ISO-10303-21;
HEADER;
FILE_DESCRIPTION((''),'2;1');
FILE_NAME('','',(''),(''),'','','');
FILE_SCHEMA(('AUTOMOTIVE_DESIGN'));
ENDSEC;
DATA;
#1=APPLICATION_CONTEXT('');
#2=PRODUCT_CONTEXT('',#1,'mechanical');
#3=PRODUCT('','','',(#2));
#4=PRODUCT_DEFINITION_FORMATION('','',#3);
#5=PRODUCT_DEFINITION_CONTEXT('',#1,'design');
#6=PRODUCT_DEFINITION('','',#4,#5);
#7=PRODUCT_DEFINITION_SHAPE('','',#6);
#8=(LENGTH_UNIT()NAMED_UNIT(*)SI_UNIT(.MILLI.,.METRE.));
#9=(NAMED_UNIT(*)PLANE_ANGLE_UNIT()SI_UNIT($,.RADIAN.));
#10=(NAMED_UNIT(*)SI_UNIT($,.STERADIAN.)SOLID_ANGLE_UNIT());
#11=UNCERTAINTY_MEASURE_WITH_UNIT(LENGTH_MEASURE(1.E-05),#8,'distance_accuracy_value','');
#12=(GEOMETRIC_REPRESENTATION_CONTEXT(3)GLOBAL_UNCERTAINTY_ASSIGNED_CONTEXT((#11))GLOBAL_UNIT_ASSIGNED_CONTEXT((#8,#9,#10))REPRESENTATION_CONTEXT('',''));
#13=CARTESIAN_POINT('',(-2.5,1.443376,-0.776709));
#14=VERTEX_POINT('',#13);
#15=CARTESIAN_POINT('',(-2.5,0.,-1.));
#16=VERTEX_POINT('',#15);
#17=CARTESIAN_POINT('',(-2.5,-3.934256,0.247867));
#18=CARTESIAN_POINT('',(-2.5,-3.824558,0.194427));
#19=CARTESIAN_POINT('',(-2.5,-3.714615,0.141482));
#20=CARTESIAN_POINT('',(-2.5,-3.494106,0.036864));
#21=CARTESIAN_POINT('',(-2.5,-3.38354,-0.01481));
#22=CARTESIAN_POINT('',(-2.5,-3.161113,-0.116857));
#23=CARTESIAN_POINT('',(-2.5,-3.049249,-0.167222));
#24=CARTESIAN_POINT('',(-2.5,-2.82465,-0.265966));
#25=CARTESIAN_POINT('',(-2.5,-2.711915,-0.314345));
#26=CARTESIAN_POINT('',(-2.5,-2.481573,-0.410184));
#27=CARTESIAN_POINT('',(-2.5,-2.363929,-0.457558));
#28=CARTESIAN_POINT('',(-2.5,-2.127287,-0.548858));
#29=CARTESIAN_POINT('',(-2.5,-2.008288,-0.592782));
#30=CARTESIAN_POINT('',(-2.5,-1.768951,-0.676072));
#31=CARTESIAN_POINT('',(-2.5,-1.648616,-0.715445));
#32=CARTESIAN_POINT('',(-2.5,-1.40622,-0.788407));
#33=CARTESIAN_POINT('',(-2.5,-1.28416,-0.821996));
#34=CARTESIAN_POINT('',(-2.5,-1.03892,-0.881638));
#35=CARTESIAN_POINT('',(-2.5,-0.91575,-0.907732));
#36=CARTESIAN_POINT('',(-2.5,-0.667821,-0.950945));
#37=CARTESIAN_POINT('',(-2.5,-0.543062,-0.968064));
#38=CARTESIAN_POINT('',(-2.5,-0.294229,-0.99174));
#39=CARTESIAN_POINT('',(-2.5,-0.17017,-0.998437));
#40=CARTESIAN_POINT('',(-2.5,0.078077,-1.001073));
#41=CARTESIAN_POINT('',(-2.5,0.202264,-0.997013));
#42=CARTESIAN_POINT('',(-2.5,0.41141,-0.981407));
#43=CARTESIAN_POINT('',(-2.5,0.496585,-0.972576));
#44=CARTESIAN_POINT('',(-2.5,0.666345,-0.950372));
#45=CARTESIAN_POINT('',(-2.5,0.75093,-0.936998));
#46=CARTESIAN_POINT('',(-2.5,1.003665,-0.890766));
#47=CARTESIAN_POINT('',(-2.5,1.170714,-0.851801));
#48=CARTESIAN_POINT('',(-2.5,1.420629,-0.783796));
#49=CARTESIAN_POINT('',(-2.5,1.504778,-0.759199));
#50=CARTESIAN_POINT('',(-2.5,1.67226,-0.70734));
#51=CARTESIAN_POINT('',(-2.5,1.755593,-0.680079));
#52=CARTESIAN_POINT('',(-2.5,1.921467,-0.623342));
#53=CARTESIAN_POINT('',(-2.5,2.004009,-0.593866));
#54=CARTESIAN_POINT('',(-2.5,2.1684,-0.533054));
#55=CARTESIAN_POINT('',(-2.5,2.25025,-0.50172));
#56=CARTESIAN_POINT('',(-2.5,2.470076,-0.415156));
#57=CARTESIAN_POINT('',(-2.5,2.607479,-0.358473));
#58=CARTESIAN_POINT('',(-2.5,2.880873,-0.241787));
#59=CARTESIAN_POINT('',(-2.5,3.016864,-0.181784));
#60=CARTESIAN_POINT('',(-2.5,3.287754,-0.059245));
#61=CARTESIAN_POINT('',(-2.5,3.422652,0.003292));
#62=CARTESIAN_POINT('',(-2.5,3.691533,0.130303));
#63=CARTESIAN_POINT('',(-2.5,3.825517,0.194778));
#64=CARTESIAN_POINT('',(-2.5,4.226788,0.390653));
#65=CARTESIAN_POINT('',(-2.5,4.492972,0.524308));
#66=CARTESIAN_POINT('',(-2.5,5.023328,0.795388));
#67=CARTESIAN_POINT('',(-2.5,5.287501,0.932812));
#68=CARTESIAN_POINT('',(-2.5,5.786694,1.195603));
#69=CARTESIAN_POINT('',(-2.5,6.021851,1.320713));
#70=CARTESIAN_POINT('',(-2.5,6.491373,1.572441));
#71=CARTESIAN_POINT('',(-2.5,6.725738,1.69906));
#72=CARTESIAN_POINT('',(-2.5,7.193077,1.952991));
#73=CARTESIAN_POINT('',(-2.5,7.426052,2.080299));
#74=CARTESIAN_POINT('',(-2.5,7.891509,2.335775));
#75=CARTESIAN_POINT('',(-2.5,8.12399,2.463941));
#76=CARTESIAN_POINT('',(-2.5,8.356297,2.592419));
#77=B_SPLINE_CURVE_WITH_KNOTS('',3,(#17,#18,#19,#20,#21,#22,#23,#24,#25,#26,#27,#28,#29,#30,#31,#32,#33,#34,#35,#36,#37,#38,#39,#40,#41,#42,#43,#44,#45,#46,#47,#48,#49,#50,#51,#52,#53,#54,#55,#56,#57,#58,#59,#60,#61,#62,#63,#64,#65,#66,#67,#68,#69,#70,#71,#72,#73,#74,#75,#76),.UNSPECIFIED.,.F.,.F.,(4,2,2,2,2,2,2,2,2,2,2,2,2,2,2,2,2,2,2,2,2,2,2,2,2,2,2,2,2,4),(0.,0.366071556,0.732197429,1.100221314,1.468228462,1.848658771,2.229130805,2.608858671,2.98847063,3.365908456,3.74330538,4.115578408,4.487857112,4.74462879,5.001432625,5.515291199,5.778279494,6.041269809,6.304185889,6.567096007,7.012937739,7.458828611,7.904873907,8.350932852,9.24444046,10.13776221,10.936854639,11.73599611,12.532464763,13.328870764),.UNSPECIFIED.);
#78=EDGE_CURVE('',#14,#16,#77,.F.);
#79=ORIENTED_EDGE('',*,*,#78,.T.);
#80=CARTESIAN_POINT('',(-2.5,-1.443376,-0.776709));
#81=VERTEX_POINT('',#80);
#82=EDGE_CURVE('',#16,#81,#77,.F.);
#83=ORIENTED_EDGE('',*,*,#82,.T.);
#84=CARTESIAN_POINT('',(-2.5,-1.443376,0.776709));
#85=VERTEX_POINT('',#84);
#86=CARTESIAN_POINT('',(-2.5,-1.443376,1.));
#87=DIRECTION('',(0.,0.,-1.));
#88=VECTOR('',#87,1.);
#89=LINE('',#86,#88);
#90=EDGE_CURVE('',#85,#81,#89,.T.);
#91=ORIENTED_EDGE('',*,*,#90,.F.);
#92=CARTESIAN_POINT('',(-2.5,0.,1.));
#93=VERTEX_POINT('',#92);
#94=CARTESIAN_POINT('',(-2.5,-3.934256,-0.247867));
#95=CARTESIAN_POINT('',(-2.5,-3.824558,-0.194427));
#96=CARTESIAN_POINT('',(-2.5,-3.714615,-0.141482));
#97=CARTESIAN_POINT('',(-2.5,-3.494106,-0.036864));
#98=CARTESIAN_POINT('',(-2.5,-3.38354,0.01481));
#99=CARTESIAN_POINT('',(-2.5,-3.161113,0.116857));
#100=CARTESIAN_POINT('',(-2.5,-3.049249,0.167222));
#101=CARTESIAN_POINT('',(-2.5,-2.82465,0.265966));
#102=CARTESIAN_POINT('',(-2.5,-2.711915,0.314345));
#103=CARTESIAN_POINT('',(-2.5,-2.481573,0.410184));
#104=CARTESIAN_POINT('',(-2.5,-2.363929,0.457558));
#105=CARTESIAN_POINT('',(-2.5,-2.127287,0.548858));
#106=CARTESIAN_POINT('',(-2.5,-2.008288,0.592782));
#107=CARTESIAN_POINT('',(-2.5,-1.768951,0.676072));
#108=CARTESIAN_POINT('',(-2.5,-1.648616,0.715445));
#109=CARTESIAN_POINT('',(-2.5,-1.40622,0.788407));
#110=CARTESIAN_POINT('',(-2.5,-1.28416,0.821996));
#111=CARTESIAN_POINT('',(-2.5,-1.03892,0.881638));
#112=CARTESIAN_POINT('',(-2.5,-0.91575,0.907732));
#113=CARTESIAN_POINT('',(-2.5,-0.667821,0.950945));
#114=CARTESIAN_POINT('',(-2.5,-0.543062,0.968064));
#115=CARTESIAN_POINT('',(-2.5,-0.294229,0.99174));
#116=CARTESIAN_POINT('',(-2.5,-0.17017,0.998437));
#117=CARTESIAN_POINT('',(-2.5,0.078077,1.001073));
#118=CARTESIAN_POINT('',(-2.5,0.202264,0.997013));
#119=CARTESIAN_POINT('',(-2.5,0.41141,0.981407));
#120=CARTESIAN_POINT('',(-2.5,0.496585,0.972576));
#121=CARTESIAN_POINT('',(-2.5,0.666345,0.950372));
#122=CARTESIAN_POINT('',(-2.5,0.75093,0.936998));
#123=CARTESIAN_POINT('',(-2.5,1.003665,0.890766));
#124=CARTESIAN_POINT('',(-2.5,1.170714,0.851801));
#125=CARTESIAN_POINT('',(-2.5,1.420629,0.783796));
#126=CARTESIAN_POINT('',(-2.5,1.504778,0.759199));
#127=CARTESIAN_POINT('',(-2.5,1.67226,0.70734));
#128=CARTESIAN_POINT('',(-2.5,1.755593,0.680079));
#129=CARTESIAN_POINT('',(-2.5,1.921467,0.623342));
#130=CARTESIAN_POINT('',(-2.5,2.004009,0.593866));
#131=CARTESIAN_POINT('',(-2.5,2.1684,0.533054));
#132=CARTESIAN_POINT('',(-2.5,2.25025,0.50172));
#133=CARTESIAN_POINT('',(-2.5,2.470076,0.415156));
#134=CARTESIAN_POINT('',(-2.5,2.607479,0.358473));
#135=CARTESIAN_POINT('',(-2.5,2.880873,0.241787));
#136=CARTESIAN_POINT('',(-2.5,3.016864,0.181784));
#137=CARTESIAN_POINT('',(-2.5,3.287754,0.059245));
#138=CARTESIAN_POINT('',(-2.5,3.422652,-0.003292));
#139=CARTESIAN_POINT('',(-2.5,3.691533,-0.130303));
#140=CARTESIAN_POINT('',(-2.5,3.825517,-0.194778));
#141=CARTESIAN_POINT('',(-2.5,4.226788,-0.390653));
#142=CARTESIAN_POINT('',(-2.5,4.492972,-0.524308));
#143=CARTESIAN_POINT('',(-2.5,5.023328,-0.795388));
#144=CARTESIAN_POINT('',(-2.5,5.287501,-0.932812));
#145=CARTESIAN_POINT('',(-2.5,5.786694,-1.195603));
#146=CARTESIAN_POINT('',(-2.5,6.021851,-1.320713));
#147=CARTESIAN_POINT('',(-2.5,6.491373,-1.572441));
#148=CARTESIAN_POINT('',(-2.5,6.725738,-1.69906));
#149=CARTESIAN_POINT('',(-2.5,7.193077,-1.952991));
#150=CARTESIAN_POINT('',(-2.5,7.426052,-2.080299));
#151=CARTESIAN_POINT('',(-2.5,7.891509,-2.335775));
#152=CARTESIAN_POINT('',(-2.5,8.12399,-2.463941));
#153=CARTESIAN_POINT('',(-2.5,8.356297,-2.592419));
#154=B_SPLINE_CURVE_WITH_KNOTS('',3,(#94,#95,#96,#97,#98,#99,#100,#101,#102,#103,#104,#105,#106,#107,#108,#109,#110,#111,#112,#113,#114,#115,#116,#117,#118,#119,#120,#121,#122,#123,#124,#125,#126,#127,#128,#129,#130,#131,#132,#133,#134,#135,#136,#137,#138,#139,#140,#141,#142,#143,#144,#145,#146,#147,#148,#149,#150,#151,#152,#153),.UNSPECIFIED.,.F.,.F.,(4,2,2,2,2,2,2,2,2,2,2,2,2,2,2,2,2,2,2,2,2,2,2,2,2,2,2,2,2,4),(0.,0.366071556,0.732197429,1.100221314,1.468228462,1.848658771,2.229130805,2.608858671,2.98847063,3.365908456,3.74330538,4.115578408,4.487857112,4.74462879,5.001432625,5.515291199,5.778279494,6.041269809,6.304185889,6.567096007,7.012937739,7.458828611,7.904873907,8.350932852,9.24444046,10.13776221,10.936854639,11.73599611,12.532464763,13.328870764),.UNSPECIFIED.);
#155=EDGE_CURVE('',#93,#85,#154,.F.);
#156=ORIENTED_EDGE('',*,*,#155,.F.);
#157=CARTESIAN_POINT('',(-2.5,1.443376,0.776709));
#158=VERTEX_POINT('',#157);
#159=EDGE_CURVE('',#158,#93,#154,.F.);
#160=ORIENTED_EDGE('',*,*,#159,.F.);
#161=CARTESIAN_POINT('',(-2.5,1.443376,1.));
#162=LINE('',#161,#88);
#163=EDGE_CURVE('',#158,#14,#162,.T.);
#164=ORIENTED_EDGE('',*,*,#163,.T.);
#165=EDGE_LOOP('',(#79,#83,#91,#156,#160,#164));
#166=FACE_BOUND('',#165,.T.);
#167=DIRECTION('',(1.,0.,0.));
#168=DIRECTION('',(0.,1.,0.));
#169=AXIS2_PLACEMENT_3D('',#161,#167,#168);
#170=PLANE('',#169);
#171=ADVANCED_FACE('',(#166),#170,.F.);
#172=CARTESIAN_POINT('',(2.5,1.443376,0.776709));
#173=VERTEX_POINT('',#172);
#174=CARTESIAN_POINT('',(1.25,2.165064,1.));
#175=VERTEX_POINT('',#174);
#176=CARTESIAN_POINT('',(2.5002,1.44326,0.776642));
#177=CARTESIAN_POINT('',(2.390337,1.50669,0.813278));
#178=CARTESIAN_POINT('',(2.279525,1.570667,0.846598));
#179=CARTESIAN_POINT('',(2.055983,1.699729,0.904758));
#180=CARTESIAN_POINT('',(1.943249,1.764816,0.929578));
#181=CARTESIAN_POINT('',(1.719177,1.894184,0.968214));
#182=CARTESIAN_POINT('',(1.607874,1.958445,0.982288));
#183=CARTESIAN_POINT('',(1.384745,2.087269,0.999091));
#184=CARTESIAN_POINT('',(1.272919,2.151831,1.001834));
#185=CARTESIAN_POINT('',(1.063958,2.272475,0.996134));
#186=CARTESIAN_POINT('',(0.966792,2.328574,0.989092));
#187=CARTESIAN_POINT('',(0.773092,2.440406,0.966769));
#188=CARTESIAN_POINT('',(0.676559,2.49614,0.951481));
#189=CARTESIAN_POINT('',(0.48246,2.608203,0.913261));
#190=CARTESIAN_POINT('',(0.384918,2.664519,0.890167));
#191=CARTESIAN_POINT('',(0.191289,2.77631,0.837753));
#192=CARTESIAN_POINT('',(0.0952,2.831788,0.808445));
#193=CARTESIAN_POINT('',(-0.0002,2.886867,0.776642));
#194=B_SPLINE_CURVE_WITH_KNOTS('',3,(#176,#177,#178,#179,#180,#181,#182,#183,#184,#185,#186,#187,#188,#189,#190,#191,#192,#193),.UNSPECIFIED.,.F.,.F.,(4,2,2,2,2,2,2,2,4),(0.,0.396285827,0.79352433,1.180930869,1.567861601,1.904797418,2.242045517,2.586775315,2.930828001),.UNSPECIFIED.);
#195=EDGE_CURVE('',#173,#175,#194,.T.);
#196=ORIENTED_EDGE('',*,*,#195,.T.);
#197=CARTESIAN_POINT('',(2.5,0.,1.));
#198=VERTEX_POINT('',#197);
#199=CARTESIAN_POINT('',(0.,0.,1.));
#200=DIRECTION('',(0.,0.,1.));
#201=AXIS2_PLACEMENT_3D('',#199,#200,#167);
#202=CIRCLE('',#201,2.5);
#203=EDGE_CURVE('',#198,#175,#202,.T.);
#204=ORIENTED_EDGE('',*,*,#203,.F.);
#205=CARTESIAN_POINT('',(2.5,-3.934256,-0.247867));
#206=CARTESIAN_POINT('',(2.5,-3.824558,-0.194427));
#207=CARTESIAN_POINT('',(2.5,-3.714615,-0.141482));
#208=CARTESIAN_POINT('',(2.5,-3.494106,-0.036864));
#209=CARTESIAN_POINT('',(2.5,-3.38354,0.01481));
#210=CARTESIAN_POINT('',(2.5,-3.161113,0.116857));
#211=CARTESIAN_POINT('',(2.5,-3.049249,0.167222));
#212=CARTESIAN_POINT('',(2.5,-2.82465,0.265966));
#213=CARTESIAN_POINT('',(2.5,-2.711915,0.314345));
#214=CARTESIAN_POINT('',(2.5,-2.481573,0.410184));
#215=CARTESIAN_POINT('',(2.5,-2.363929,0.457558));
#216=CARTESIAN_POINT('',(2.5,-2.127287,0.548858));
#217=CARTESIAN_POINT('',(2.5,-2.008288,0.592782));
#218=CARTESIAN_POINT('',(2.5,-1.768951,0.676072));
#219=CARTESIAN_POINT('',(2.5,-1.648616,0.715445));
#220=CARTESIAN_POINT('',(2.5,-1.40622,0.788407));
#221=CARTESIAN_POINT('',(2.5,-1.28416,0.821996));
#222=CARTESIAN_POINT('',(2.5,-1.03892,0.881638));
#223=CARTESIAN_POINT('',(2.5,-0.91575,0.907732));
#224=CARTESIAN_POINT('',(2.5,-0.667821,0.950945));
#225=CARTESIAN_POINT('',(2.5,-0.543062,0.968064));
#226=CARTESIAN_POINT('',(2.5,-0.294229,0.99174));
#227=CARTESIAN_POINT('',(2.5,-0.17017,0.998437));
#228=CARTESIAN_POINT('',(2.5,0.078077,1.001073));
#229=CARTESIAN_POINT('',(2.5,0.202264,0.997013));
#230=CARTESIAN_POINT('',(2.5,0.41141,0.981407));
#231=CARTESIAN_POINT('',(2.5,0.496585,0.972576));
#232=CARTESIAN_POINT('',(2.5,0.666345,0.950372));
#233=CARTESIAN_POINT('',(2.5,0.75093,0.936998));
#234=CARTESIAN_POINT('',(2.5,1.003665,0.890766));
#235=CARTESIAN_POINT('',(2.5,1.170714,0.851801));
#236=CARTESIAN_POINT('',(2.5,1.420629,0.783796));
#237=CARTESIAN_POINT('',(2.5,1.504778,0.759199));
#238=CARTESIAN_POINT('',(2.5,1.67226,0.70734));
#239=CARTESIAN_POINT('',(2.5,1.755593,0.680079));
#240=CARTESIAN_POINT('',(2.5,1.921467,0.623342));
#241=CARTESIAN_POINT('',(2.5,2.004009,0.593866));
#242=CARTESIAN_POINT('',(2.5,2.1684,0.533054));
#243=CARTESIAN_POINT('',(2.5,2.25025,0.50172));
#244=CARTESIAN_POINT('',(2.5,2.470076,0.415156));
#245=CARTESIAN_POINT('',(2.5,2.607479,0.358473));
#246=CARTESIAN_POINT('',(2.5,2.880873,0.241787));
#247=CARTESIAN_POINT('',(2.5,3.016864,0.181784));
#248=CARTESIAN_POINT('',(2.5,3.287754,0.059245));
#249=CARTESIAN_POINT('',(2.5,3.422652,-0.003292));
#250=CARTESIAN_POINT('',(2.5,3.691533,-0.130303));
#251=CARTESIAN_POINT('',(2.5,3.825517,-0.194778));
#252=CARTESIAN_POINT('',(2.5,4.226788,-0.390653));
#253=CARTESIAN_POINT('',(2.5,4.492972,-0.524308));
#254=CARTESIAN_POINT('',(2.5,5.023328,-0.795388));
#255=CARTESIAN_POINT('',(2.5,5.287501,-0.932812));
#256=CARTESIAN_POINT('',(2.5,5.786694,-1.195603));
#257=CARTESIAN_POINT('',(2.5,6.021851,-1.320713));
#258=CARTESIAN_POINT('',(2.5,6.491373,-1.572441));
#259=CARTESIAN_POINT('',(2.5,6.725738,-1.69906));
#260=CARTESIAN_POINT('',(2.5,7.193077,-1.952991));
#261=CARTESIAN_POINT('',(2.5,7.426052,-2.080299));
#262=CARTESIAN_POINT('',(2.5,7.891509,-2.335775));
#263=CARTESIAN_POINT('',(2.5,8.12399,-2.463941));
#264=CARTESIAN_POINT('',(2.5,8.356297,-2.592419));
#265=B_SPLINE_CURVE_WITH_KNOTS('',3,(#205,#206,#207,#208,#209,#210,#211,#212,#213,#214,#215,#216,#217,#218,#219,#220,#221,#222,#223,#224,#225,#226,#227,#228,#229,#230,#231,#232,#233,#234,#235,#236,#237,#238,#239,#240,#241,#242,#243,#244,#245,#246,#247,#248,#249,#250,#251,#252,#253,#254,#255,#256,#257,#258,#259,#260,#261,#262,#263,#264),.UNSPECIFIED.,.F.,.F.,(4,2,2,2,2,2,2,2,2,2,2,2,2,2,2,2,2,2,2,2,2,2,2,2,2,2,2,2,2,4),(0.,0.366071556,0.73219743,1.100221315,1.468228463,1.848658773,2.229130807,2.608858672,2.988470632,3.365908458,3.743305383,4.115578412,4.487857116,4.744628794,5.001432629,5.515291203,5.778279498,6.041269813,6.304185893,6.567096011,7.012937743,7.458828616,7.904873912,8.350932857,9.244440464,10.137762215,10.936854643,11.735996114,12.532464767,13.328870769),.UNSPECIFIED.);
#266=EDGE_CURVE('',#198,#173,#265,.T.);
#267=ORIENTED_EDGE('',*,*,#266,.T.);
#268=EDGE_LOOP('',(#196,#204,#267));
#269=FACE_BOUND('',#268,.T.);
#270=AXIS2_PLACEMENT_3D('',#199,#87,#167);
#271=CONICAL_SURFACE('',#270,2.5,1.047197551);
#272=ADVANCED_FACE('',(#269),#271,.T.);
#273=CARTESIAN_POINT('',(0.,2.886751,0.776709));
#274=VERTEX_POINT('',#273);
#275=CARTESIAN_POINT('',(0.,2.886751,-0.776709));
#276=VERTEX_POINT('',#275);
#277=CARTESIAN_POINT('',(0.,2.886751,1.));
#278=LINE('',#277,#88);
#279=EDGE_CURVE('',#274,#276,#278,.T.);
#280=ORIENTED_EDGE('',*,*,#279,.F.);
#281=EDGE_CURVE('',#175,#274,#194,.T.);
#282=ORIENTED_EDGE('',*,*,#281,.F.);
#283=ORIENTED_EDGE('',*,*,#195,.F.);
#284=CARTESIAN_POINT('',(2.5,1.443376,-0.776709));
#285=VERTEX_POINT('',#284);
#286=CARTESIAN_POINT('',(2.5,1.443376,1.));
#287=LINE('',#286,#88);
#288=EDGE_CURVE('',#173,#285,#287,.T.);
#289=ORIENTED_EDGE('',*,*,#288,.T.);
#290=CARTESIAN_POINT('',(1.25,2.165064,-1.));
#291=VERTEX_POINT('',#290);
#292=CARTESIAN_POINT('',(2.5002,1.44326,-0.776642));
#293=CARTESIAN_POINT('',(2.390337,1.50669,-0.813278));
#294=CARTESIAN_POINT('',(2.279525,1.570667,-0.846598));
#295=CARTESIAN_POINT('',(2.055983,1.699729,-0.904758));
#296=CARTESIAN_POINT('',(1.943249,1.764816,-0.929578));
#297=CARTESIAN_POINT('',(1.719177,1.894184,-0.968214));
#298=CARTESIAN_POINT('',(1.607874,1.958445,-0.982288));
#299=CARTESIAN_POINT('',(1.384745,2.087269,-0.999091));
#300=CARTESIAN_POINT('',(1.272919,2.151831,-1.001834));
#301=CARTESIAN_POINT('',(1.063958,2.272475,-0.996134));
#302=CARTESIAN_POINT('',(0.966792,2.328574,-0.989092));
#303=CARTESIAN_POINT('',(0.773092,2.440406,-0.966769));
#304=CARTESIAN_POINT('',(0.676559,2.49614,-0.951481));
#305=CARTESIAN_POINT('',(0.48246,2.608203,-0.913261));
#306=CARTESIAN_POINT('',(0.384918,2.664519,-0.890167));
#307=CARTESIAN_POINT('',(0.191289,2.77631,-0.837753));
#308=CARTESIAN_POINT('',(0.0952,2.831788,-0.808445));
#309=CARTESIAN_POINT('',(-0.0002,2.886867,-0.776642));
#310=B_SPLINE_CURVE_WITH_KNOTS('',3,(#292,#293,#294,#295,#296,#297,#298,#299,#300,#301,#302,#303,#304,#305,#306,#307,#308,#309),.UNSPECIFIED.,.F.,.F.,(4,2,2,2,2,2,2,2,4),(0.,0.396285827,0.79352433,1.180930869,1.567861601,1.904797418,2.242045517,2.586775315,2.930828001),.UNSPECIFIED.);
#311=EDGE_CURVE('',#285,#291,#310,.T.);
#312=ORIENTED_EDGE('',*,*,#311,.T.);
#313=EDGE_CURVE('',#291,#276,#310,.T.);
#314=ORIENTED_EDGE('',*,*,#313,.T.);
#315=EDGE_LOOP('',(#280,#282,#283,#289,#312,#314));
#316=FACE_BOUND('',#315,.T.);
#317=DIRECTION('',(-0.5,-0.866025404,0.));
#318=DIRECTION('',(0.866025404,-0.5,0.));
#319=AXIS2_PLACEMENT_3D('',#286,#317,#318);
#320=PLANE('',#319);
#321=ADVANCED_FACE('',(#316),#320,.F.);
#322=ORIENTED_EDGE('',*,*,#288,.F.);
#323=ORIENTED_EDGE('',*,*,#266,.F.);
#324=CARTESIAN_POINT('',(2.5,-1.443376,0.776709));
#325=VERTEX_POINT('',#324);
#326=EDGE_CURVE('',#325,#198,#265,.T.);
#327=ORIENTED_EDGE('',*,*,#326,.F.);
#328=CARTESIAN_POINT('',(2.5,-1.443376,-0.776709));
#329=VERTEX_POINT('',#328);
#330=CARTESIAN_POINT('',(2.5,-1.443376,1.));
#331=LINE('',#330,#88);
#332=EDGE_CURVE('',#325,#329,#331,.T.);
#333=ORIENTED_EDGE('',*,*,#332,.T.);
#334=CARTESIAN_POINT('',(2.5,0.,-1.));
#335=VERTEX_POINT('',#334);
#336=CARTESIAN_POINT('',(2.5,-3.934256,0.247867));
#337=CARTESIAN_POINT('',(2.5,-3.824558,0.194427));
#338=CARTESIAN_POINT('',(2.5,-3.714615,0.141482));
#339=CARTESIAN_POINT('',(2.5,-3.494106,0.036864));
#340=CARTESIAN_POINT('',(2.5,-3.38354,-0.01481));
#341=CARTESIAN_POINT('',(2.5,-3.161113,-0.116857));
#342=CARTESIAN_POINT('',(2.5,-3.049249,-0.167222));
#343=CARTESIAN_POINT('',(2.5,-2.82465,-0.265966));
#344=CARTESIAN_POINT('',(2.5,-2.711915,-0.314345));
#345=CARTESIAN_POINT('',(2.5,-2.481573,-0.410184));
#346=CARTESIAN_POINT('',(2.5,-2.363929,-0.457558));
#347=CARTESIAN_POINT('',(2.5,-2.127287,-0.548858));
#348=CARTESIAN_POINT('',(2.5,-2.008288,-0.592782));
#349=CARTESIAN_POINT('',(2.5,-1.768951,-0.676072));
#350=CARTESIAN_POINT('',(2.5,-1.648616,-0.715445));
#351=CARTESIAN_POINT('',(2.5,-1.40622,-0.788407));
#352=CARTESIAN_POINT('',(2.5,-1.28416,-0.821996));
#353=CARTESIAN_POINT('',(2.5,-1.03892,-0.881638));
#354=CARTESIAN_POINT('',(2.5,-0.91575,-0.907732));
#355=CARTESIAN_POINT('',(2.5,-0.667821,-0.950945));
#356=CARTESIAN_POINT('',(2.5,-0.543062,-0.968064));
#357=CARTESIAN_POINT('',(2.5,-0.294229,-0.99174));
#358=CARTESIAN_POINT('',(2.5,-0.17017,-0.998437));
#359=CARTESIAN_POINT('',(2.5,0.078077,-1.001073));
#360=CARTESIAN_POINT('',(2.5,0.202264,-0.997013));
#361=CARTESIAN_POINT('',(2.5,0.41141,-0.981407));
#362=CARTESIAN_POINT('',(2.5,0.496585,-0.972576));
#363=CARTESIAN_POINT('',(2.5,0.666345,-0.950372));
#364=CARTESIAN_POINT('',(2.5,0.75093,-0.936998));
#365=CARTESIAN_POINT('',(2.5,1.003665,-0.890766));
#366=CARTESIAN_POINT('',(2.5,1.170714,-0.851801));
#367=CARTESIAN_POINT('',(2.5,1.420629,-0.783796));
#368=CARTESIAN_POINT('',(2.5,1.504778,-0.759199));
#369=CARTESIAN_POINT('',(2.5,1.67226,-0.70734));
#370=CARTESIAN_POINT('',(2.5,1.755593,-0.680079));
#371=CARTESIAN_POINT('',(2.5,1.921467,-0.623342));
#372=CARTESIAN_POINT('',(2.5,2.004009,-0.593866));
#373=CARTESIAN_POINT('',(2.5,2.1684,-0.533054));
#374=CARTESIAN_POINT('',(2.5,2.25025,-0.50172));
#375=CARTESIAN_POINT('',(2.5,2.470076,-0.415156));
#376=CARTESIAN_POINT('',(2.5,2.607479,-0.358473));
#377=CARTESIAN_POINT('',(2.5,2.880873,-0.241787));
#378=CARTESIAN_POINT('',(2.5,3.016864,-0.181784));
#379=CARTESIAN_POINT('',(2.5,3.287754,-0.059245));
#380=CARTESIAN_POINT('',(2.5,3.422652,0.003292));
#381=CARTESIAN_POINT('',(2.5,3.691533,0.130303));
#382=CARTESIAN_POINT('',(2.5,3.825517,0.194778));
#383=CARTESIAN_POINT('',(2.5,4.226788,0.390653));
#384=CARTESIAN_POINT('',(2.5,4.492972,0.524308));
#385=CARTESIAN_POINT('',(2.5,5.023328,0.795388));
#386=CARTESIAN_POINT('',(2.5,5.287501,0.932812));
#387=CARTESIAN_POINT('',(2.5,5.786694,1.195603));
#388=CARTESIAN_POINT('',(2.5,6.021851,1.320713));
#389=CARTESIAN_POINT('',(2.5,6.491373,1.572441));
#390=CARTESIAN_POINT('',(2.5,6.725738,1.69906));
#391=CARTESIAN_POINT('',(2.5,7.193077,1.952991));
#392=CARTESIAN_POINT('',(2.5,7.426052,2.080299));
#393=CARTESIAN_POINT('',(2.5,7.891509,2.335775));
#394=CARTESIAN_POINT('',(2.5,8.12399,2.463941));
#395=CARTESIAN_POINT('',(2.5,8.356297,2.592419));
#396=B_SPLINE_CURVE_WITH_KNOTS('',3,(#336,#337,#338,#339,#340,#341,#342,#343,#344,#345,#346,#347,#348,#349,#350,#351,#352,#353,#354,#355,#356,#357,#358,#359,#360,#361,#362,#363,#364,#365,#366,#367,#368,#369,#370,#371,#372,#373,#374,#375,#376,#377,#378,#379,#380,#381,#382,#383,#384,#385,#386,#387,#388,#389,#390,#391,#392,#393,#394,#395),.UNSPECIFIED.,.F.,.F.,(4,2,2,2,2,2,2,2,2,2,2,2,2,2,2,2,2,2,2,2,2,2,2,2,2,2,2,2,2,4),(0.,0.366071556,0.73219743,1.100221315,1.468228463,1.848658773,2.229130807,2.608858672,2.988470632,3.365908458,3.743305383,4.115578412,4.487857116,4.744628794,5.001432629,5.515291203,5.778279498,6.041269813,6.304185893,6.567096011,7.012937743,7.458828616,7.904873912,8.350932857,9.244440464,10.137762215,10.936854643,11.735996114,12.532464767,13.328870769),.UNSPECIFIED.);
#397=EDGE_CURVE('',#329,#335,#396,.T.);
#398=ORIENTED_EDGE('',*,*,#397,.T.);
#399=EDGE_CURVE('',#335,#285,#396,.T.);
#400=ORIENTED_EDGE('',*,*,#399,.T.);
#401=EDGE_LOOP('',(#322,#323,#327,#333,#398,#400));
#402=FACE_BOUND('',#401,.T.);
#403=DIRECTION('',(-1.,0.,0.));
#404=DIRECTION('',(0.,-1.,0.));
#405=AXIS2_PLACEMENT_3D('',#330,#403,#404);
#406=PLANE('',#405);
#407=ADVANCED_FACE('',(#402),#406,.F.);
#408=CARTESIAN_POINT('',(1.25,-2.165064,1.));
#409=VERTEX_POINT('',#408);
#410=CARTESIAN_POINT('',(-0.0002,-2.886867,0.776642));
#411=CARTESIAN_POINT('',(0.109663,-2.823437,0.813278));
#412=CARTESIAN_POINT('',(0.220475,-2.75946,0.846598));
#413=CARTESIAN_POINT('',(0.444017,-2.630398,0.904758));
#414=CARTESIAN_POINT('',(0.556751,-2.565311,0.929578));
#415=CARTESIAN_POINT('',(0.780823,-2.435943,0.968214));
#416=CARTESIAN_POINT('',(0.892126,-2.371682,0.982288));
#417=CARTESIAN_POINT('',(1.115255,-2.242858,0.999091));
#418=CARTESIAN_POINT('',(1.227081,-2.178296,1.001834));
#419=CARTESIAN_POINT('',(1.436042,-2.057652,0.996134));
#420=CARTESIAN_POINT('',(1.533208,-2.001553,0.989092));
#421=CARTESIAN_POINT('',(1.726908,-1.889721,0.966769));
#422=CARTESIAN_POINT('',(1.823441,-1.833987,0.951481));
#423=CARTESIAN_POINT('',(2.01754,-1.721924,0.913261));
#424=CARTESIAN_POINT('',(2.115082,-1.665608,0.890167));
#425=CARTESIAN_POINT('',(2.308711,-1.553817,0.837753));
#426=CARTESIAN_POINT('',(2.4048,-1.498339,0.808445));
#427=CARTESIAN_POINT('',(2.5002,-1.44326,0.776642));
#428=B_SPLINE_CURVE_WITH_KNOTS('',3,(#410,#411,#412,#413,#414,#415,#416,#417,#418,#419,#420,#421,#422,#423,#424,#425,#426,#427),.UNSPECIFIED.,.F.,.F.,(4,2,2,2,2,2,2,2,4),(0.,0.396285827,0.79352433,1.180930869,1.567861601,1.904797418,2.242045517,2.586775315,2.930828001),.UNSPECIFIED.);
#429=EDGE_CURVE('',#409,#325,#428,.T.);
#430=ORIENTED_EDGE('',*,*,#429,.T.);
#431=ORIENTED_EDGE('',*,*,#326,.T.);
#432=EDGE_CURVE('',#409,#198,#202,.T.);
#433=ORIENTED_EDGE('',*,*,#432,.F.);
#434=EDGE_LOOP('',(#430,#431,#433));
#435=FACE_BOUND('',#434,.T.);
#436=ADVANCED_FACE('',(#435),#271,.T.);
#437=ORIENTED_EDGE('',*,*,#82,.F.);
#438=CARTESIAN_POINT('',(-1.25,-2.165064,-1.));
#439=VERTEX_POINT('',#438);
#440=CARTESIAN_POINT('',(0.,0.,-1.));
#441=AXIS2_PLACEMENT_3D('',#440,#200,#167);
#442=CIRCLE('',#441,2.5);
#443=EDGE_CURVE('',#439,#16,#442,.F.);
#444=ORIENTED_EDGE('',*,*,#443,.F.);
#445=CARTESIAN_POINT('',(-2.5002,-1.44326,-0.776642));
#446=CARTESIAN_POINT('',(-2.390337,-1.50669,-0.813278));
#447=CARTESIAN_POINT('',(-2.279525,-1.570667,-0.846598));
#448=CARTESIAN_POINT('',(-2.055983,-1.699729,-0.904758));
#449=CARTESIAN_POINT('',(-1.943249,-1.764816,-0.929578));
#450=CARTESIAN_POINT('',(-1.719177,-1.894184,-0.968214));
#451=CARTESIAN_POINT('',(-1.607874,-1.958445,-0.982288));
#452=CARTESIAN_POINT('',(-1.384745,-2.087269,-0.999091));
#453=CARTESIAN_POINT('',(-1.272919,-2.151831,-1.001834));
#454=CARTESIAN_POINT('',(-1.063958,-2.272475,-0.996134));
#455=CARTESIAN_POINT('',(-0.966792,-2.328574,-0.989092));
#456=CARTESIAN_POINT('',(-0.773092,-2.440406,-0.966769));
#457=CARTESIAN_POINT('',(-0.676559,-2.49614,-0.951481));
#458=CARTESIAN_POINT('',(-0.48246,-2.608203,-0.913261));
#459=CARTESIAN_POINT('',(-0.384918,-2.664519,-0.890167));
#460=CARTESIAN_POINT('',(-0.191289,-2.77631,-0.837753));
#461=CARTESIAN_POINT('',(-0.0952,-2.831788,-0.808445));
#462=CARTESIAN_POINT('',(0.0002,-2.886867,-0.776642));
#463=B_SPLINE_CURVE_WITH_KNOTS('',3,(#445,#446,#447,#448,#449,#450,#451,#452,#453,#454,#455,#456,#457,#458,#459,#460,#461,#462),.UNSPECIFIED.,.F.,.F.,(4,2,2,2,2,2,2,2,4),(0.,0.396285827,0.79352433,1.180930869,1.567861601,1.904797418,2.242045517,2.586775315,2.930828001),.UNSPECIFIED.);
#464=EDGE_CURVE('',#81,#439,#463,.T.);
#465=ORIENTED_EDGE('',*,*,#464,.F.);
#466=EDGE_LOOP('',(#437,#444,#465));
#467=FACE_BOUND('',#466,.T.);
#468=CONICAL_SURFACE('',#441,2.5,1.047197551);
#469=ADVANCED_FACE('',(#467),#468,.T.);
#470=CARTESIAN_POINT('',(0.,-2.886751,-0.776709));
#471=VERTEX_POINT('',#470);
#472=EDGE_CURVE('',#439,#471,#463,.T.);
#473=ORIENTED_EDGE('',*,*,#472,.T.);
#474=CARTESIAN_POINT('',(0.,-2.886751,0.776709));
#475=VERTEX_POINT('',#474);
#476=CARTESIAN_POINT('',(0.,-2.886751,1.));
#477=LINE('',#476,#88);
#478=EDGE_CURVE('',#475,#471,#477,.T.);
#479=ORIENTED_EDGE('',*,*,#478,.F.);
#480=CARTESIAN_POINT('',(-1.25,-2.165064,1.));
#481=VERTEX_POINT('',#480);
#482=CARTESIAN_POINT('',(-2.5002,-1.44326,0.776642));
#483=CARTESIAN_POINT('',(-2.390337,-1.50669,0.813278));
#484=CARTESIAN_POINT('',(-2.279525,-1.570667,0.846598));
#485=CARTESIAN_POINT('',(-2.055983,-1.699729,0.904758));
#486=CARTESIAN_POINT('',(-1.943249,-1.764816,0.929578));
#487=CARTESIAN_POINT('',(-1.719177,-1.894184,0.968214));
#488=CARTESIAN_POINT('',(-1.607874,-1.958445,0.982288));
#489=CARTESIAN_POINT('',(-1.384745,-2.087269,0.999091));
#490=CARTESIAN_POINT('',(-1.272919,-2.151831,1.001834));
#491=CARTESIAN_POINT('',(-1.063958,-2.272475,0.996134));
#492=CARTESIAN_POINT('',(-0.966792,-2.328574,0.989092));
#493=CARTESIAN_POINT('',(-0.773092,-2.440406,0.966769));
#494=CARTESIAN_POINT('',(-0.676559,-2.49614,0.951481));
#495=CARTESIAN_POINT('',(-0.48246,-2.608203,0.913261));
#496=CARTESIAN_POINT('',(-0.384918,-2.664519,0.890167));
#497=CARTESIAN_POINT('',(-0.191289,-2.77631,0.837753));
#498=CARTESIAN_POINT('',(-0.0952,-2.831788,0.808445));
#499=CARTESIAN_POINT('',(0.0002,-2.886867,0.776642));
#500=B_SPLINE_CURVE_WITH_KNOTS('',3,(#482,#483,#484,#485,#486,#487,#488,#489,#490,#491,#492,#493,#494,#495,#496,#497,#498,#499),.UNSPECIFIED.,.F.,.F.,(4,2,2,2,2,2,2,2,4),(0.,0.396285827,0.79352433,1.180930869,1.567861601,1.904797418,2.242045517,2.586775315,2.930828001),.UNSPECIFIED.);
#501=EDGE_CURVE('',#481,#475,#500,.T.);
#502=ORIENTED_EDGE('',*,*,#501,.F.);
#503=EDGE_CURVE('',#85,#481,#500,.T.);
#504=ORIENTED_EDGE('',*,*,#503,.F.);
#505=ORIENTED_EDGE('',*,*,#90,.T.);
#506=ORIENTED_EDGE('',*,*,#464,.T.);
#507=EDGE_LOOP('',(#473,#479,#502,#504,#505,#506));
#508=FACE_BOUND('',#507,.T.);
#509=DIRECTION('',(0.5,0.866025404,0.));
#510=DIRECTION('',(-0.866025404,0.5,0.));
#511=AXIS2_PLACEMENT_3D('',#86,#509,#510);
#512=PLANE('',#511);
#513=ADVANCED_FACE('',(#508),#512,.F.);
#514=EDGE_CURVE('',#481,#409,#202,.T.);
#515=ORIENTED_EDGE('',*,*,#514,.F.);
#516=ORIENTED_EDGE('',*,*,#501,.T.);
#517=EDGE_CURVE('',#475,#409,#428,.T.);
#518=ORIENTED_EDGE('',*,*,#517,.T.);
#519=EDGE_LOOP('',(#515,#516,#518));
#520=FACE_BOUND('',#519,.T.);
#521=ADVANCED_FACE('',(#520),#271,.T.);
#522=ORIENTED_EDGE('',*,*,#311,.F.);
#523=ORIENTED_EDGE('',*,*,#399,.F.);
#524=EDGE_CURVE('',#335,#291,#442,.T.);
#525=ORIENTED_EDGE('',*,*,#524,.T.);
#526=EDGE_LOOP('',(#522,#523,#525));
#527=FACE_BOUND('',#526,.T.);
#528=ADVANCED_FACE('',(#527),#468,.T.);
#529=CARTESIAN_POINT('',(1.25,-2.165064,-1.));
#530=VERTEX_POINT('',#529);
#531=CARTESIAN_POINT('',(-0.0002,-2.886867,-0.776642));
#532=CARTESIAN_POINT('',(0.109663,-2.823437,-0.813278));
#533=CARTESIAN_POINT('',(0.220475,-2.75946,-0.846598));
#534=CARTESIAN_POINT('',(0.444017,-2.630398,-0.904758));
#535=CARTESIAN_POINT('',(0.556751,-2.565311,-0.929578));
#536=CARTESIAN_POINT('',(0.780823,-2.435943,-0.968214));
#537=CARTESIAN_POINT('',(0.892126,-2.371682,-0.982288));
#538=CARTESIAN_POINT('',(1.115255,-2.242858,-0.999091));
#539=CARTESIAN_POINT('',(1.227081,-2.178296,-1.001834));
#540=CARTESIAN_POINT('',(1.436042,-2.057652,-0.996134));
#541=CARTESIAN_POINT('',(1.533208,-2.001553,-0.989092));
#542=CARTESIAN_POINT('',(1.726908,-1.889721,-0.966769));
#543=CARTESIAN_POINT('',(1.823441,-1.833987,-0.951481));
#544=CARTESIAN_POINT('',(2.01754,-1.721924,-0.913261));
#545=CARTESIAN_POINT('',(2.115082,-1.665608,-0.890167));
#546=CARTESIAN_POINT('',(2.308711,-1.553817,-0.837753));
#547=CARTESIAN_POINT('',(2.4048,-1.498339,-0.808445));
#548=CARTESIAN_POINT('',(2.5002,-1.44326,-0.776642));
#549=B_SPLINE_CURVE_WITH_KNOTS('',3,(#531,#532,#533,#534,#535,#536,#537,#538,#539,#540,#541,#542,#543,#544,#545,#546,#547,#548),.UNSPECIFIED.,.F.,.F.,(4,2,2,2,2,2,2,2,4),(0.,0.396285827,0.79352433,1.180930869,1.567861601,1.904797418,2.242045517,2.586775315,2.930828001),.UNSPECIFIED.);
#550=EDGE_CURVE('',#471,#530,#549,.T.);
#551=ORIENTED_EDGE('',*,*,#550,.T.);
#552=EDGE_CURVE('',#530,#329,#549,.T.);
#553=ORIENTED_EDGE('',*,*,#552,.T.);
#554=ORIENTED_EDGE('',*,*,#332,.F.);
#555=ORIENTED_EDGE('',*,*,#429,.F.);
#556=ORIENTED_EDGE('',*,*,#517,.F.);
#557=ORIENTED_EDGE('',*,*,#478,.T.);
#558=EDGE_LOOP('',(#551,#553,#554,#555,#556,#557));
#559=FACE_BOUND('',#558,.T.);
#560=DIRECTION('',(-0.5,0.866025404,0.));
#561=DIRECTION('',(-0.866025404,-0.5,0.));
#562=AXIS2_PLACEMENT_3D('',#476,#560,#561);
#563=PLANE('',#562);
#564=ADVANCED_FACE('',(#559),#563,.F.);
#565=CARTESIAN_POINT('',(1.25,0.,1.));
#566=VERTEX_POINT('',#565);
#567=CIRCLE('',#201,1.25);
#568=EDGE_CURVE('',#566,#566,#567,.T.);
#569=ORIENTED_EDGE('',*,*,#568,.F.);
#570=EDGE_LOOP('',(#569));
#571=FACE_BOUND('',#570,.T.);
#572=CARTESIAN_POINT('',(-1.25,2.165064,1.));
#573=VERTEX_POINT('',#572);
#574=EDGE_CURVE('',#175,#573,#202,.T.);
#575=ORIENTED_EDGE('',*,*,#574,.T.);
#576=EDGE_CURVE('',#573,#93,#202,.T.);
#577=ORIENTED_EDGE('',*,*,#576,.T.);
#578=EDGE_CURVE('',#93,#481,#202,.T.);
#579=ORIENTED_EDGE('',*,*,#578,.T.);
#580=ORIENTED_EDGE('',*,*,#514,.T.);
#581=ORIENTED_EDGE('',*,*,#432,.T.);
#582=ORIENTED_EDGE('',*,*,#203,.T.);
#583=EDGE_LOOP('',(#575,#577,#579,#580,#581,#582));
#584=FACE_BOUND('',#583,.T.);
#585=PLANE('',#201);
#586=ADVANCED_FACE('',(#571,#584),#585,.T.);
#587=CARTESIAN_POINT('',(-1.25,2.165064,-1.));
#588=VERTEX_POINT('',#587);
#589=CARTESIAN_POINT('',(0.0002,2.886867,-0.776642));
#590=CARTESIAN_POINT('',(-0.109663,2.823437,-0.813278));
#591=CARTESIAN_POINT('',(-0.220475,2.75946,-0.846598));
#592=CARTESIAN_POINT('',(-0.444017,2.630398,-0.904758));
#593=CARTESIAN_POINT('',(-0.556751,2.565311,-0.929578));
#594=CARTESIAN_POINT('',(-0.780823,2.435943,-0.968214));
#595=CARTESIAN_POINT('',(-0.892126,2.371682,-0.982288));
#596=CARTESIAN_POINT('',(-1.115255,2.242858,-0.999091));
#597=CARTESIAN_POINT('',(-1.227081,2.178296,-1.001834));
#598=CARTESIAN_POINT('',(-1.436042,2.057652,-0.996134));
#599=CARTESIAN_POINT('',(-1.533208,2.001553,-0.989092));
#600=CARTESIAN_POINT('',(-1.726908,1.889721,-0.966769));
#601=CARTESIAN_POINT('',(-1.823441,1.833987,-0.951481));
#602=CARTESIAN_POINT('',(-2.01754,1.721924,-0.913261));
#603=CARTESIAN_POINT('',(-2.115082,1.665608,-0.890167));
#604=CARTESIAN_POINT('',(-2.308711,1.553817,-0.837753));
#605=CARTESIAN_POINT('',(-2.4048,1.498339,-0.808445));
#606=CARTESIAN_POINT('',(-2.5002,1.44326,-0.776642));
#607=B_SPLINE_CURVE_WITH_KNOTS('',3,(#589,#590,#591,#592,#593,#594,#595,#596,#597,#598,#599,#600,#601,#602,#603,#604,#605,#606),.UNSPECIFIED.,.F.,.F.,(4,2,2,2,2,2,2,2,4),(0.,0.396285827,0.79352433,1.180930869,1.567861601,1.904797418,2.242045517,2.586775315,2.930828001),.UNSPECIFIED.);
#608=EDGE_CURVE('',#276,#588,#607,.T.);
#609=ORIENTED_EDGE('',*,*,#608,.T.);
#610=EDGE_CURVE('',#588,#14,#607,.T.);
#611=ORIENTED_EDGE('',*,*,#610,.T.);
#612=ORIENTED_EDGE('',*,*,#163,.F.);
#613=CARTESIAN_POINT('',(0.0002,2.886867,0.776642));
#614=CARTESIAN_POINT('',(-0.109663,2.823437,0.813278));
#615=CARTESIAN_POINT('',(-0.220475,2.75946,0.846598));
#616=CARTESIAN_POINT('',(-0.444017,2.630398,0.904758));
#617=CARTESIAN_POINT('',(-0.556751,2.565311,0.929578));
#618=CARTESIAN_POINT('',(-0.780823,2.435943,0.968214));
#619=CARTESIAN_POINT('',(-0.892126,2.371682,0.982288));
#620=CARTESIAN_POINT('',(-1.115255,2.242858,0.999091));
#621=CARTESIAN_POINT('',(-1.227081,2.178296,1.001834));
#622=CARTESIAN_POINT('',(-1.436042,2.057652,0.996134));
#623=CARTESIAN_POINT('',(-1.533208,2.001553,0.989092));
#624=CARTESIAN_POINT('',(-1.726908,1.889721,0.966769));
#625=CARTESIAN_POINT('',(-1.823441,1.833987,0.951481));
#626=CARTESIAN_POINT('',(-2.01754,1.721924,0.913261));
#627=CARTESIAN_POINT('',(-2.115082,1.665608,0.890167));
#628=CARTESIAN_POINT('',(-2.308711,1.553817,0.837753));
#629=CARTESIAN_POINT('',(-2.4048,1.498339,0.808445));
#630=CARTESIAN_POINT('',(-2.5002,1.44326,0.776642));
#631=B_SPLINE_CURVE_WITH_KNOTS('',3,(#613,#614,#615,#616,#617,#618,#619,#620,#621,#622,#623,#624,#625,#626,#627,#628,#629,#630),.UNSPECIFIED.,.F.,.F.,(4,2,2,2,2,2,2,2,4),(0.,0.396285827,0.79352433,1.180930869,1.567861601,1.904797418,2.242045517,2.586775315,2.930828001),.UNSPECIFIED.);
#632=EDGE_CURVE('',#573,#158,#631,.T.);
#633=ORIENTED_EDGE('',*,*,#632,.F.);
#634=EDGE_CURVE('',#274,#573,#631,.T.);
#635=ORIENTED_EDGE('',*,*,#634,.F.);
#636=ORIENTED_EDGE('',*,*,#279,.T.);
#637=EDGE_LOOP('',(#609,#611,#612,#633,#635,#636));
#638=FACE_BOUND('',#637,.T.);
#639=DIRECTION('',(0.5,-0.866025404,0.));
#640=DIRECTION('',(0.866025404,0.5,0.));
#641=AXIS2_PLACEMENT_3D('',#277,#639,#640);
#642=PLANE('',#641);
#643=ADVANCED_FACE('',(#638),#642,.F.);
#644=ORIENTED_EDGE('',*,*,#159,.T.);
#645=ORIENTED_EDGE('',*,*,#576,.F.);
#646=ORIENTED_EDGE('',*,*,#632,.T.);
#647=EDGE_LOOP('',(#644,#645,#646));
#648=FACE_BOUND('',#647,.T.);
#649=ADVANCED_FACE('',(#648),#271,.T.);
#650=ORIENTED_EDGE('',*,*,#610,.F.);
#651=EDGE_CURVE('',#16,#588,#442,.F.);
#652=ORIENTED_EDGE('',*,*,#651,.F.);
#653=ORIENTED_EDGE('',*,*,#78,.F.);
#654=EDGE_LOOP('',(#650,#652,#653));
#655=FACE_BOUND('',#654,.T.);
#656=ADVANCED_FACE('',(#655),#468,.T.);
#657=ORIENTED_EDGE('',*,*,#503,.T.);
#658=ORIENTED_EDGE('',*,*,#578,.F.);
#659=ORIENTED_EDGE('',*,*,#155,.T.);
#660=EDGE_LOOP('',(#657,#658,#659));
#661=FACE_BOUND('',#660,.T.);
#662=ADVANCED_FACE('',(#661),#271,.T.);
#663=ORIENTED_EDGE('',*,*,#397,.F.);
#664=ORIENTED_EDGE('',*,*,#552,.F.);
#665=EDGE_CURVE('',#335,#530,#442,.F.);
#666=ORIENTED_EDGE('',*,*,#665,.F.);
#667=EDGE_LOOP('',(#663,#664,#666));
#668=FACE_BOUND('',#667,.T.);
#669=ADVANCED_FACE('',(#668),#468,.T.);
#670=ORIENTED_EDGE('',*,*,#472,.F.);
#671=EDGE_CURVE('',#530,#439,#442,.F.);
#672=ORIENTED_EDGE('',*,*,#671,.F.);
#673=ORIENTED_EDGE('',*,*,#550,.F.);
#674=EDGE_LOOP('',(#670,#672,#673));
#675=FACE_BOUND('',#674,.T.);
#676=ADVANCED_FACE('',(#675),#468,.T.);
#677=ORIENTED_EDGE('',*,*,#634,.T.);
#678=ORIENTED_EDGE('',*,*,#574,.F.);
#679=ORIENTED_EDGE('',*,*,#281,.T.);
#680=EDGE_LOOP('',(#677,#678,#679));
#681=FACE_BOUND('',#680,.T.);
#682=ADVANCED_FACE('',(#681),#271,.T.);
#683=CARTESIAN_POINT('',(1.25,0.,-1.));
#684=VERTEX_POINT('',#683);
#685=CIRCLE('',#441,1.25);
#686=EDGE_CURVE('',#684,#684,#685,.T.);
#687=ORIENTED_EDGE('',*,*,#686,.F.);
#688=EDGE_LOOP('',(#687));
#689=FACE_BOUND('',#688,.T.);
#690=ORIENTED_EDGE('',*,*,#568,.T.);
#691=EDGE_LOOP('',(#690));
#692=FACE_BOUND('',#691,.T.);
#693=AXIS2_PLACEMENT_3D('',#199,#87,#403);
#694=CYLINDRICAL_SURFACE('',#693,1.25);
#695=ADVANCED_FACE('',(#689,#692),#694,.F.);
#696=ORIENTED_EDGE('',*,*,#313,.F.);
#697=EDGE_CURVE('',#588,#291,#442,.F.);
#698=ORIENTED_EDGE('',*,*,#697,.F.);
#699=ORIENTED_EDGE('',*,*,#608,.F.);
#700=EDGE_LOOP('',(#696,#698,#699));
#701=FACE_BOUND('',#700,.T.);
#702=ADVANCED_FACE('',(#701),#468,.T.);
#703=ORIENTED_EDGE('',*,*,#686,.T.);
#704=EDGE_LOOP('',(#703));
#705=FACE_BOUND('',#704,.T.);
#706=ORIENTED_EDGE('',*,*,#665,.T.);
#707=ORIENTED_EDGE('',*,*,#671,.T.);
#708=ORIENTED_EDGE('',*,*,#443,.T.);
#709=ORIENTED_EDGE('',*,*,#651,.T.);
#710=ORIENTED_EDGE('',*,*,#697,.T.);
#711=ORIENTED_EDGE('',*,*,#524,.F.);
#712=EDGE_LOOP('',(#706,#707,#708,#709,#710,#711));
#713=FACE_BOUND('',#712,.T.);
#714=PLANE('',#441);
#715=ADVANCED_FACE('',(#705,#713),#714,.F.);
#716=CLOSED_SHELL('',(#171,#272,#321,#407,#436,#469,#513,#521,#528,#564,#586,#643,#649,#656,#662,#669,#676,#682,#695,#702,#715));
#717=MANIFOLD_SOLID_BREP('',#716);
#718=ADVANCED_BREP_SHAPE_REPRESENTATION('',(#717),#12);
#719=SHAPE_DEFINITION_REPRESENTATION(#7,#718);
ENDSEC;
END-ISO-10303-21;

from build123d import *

# Parameters (mm, degrees)
SKETCH2_R                = 1.25
BOSS_EXTRUDE1_DEPTH      = 1
BOSS_EXTRUDE1_DEPTH_BACK = 1
SKETCH3_OUTSIDE_W        = 18.972
SKETCH3_OUTSIDE_H        = 19.746
SKETCH3_OUTSIDE_R        = 2.5
CUT_EXTRUDE1_DEPTH       = 3
CUT_EXTRUDE1_TAPER       = 60


with BuildPart() as part:
    # Sketch2 → Boss-Extrude1 (new body, two sides)
    with BuildSketch(Plane.XY) as boss_extrude1_sk:
        Polygon((0, 2.886751346), (-2.5, 1.443375673), (-2.5, -1.443375673), (0, -2.886751346), (2.5, -1.443375673), (2.5, 1.443375673), align=None)
        Circle(SKETCH2_R, mode=Mode.SUBTRACT)
    extrude(amount=BOSS_EXTRUDE1_DEPTH)
    extrude(boss_extrude1_sk.sketch, amount=-BOSS_EXTRUDE1_DEPTH_BACK)

    # Sketch3 outside → Cut-Extrude1 (cut, through all)
    with BuildSketch(Plane.XY.offset(1)):
        Rectangle(SKETCH3_OUTSIDE_W, SKETCH3_OUTSIDE_H)
        Circle(SKETCH3_OUTSIDE_R, mode=Mode.SUBTRACT)
    cut_extrude1 = extrude(amount=-CUT_EXTRUDE1_DEPTH, taper=CUT_EXTRUDE1_TAPER, mode=Mode.SUBTRACT)

    # Mirror1: Cut-Extrude1 across plane
    add(cut_extrude1.mirror(Plane.XY), mode=Mode.SUBTRACT)


solid = part.part
